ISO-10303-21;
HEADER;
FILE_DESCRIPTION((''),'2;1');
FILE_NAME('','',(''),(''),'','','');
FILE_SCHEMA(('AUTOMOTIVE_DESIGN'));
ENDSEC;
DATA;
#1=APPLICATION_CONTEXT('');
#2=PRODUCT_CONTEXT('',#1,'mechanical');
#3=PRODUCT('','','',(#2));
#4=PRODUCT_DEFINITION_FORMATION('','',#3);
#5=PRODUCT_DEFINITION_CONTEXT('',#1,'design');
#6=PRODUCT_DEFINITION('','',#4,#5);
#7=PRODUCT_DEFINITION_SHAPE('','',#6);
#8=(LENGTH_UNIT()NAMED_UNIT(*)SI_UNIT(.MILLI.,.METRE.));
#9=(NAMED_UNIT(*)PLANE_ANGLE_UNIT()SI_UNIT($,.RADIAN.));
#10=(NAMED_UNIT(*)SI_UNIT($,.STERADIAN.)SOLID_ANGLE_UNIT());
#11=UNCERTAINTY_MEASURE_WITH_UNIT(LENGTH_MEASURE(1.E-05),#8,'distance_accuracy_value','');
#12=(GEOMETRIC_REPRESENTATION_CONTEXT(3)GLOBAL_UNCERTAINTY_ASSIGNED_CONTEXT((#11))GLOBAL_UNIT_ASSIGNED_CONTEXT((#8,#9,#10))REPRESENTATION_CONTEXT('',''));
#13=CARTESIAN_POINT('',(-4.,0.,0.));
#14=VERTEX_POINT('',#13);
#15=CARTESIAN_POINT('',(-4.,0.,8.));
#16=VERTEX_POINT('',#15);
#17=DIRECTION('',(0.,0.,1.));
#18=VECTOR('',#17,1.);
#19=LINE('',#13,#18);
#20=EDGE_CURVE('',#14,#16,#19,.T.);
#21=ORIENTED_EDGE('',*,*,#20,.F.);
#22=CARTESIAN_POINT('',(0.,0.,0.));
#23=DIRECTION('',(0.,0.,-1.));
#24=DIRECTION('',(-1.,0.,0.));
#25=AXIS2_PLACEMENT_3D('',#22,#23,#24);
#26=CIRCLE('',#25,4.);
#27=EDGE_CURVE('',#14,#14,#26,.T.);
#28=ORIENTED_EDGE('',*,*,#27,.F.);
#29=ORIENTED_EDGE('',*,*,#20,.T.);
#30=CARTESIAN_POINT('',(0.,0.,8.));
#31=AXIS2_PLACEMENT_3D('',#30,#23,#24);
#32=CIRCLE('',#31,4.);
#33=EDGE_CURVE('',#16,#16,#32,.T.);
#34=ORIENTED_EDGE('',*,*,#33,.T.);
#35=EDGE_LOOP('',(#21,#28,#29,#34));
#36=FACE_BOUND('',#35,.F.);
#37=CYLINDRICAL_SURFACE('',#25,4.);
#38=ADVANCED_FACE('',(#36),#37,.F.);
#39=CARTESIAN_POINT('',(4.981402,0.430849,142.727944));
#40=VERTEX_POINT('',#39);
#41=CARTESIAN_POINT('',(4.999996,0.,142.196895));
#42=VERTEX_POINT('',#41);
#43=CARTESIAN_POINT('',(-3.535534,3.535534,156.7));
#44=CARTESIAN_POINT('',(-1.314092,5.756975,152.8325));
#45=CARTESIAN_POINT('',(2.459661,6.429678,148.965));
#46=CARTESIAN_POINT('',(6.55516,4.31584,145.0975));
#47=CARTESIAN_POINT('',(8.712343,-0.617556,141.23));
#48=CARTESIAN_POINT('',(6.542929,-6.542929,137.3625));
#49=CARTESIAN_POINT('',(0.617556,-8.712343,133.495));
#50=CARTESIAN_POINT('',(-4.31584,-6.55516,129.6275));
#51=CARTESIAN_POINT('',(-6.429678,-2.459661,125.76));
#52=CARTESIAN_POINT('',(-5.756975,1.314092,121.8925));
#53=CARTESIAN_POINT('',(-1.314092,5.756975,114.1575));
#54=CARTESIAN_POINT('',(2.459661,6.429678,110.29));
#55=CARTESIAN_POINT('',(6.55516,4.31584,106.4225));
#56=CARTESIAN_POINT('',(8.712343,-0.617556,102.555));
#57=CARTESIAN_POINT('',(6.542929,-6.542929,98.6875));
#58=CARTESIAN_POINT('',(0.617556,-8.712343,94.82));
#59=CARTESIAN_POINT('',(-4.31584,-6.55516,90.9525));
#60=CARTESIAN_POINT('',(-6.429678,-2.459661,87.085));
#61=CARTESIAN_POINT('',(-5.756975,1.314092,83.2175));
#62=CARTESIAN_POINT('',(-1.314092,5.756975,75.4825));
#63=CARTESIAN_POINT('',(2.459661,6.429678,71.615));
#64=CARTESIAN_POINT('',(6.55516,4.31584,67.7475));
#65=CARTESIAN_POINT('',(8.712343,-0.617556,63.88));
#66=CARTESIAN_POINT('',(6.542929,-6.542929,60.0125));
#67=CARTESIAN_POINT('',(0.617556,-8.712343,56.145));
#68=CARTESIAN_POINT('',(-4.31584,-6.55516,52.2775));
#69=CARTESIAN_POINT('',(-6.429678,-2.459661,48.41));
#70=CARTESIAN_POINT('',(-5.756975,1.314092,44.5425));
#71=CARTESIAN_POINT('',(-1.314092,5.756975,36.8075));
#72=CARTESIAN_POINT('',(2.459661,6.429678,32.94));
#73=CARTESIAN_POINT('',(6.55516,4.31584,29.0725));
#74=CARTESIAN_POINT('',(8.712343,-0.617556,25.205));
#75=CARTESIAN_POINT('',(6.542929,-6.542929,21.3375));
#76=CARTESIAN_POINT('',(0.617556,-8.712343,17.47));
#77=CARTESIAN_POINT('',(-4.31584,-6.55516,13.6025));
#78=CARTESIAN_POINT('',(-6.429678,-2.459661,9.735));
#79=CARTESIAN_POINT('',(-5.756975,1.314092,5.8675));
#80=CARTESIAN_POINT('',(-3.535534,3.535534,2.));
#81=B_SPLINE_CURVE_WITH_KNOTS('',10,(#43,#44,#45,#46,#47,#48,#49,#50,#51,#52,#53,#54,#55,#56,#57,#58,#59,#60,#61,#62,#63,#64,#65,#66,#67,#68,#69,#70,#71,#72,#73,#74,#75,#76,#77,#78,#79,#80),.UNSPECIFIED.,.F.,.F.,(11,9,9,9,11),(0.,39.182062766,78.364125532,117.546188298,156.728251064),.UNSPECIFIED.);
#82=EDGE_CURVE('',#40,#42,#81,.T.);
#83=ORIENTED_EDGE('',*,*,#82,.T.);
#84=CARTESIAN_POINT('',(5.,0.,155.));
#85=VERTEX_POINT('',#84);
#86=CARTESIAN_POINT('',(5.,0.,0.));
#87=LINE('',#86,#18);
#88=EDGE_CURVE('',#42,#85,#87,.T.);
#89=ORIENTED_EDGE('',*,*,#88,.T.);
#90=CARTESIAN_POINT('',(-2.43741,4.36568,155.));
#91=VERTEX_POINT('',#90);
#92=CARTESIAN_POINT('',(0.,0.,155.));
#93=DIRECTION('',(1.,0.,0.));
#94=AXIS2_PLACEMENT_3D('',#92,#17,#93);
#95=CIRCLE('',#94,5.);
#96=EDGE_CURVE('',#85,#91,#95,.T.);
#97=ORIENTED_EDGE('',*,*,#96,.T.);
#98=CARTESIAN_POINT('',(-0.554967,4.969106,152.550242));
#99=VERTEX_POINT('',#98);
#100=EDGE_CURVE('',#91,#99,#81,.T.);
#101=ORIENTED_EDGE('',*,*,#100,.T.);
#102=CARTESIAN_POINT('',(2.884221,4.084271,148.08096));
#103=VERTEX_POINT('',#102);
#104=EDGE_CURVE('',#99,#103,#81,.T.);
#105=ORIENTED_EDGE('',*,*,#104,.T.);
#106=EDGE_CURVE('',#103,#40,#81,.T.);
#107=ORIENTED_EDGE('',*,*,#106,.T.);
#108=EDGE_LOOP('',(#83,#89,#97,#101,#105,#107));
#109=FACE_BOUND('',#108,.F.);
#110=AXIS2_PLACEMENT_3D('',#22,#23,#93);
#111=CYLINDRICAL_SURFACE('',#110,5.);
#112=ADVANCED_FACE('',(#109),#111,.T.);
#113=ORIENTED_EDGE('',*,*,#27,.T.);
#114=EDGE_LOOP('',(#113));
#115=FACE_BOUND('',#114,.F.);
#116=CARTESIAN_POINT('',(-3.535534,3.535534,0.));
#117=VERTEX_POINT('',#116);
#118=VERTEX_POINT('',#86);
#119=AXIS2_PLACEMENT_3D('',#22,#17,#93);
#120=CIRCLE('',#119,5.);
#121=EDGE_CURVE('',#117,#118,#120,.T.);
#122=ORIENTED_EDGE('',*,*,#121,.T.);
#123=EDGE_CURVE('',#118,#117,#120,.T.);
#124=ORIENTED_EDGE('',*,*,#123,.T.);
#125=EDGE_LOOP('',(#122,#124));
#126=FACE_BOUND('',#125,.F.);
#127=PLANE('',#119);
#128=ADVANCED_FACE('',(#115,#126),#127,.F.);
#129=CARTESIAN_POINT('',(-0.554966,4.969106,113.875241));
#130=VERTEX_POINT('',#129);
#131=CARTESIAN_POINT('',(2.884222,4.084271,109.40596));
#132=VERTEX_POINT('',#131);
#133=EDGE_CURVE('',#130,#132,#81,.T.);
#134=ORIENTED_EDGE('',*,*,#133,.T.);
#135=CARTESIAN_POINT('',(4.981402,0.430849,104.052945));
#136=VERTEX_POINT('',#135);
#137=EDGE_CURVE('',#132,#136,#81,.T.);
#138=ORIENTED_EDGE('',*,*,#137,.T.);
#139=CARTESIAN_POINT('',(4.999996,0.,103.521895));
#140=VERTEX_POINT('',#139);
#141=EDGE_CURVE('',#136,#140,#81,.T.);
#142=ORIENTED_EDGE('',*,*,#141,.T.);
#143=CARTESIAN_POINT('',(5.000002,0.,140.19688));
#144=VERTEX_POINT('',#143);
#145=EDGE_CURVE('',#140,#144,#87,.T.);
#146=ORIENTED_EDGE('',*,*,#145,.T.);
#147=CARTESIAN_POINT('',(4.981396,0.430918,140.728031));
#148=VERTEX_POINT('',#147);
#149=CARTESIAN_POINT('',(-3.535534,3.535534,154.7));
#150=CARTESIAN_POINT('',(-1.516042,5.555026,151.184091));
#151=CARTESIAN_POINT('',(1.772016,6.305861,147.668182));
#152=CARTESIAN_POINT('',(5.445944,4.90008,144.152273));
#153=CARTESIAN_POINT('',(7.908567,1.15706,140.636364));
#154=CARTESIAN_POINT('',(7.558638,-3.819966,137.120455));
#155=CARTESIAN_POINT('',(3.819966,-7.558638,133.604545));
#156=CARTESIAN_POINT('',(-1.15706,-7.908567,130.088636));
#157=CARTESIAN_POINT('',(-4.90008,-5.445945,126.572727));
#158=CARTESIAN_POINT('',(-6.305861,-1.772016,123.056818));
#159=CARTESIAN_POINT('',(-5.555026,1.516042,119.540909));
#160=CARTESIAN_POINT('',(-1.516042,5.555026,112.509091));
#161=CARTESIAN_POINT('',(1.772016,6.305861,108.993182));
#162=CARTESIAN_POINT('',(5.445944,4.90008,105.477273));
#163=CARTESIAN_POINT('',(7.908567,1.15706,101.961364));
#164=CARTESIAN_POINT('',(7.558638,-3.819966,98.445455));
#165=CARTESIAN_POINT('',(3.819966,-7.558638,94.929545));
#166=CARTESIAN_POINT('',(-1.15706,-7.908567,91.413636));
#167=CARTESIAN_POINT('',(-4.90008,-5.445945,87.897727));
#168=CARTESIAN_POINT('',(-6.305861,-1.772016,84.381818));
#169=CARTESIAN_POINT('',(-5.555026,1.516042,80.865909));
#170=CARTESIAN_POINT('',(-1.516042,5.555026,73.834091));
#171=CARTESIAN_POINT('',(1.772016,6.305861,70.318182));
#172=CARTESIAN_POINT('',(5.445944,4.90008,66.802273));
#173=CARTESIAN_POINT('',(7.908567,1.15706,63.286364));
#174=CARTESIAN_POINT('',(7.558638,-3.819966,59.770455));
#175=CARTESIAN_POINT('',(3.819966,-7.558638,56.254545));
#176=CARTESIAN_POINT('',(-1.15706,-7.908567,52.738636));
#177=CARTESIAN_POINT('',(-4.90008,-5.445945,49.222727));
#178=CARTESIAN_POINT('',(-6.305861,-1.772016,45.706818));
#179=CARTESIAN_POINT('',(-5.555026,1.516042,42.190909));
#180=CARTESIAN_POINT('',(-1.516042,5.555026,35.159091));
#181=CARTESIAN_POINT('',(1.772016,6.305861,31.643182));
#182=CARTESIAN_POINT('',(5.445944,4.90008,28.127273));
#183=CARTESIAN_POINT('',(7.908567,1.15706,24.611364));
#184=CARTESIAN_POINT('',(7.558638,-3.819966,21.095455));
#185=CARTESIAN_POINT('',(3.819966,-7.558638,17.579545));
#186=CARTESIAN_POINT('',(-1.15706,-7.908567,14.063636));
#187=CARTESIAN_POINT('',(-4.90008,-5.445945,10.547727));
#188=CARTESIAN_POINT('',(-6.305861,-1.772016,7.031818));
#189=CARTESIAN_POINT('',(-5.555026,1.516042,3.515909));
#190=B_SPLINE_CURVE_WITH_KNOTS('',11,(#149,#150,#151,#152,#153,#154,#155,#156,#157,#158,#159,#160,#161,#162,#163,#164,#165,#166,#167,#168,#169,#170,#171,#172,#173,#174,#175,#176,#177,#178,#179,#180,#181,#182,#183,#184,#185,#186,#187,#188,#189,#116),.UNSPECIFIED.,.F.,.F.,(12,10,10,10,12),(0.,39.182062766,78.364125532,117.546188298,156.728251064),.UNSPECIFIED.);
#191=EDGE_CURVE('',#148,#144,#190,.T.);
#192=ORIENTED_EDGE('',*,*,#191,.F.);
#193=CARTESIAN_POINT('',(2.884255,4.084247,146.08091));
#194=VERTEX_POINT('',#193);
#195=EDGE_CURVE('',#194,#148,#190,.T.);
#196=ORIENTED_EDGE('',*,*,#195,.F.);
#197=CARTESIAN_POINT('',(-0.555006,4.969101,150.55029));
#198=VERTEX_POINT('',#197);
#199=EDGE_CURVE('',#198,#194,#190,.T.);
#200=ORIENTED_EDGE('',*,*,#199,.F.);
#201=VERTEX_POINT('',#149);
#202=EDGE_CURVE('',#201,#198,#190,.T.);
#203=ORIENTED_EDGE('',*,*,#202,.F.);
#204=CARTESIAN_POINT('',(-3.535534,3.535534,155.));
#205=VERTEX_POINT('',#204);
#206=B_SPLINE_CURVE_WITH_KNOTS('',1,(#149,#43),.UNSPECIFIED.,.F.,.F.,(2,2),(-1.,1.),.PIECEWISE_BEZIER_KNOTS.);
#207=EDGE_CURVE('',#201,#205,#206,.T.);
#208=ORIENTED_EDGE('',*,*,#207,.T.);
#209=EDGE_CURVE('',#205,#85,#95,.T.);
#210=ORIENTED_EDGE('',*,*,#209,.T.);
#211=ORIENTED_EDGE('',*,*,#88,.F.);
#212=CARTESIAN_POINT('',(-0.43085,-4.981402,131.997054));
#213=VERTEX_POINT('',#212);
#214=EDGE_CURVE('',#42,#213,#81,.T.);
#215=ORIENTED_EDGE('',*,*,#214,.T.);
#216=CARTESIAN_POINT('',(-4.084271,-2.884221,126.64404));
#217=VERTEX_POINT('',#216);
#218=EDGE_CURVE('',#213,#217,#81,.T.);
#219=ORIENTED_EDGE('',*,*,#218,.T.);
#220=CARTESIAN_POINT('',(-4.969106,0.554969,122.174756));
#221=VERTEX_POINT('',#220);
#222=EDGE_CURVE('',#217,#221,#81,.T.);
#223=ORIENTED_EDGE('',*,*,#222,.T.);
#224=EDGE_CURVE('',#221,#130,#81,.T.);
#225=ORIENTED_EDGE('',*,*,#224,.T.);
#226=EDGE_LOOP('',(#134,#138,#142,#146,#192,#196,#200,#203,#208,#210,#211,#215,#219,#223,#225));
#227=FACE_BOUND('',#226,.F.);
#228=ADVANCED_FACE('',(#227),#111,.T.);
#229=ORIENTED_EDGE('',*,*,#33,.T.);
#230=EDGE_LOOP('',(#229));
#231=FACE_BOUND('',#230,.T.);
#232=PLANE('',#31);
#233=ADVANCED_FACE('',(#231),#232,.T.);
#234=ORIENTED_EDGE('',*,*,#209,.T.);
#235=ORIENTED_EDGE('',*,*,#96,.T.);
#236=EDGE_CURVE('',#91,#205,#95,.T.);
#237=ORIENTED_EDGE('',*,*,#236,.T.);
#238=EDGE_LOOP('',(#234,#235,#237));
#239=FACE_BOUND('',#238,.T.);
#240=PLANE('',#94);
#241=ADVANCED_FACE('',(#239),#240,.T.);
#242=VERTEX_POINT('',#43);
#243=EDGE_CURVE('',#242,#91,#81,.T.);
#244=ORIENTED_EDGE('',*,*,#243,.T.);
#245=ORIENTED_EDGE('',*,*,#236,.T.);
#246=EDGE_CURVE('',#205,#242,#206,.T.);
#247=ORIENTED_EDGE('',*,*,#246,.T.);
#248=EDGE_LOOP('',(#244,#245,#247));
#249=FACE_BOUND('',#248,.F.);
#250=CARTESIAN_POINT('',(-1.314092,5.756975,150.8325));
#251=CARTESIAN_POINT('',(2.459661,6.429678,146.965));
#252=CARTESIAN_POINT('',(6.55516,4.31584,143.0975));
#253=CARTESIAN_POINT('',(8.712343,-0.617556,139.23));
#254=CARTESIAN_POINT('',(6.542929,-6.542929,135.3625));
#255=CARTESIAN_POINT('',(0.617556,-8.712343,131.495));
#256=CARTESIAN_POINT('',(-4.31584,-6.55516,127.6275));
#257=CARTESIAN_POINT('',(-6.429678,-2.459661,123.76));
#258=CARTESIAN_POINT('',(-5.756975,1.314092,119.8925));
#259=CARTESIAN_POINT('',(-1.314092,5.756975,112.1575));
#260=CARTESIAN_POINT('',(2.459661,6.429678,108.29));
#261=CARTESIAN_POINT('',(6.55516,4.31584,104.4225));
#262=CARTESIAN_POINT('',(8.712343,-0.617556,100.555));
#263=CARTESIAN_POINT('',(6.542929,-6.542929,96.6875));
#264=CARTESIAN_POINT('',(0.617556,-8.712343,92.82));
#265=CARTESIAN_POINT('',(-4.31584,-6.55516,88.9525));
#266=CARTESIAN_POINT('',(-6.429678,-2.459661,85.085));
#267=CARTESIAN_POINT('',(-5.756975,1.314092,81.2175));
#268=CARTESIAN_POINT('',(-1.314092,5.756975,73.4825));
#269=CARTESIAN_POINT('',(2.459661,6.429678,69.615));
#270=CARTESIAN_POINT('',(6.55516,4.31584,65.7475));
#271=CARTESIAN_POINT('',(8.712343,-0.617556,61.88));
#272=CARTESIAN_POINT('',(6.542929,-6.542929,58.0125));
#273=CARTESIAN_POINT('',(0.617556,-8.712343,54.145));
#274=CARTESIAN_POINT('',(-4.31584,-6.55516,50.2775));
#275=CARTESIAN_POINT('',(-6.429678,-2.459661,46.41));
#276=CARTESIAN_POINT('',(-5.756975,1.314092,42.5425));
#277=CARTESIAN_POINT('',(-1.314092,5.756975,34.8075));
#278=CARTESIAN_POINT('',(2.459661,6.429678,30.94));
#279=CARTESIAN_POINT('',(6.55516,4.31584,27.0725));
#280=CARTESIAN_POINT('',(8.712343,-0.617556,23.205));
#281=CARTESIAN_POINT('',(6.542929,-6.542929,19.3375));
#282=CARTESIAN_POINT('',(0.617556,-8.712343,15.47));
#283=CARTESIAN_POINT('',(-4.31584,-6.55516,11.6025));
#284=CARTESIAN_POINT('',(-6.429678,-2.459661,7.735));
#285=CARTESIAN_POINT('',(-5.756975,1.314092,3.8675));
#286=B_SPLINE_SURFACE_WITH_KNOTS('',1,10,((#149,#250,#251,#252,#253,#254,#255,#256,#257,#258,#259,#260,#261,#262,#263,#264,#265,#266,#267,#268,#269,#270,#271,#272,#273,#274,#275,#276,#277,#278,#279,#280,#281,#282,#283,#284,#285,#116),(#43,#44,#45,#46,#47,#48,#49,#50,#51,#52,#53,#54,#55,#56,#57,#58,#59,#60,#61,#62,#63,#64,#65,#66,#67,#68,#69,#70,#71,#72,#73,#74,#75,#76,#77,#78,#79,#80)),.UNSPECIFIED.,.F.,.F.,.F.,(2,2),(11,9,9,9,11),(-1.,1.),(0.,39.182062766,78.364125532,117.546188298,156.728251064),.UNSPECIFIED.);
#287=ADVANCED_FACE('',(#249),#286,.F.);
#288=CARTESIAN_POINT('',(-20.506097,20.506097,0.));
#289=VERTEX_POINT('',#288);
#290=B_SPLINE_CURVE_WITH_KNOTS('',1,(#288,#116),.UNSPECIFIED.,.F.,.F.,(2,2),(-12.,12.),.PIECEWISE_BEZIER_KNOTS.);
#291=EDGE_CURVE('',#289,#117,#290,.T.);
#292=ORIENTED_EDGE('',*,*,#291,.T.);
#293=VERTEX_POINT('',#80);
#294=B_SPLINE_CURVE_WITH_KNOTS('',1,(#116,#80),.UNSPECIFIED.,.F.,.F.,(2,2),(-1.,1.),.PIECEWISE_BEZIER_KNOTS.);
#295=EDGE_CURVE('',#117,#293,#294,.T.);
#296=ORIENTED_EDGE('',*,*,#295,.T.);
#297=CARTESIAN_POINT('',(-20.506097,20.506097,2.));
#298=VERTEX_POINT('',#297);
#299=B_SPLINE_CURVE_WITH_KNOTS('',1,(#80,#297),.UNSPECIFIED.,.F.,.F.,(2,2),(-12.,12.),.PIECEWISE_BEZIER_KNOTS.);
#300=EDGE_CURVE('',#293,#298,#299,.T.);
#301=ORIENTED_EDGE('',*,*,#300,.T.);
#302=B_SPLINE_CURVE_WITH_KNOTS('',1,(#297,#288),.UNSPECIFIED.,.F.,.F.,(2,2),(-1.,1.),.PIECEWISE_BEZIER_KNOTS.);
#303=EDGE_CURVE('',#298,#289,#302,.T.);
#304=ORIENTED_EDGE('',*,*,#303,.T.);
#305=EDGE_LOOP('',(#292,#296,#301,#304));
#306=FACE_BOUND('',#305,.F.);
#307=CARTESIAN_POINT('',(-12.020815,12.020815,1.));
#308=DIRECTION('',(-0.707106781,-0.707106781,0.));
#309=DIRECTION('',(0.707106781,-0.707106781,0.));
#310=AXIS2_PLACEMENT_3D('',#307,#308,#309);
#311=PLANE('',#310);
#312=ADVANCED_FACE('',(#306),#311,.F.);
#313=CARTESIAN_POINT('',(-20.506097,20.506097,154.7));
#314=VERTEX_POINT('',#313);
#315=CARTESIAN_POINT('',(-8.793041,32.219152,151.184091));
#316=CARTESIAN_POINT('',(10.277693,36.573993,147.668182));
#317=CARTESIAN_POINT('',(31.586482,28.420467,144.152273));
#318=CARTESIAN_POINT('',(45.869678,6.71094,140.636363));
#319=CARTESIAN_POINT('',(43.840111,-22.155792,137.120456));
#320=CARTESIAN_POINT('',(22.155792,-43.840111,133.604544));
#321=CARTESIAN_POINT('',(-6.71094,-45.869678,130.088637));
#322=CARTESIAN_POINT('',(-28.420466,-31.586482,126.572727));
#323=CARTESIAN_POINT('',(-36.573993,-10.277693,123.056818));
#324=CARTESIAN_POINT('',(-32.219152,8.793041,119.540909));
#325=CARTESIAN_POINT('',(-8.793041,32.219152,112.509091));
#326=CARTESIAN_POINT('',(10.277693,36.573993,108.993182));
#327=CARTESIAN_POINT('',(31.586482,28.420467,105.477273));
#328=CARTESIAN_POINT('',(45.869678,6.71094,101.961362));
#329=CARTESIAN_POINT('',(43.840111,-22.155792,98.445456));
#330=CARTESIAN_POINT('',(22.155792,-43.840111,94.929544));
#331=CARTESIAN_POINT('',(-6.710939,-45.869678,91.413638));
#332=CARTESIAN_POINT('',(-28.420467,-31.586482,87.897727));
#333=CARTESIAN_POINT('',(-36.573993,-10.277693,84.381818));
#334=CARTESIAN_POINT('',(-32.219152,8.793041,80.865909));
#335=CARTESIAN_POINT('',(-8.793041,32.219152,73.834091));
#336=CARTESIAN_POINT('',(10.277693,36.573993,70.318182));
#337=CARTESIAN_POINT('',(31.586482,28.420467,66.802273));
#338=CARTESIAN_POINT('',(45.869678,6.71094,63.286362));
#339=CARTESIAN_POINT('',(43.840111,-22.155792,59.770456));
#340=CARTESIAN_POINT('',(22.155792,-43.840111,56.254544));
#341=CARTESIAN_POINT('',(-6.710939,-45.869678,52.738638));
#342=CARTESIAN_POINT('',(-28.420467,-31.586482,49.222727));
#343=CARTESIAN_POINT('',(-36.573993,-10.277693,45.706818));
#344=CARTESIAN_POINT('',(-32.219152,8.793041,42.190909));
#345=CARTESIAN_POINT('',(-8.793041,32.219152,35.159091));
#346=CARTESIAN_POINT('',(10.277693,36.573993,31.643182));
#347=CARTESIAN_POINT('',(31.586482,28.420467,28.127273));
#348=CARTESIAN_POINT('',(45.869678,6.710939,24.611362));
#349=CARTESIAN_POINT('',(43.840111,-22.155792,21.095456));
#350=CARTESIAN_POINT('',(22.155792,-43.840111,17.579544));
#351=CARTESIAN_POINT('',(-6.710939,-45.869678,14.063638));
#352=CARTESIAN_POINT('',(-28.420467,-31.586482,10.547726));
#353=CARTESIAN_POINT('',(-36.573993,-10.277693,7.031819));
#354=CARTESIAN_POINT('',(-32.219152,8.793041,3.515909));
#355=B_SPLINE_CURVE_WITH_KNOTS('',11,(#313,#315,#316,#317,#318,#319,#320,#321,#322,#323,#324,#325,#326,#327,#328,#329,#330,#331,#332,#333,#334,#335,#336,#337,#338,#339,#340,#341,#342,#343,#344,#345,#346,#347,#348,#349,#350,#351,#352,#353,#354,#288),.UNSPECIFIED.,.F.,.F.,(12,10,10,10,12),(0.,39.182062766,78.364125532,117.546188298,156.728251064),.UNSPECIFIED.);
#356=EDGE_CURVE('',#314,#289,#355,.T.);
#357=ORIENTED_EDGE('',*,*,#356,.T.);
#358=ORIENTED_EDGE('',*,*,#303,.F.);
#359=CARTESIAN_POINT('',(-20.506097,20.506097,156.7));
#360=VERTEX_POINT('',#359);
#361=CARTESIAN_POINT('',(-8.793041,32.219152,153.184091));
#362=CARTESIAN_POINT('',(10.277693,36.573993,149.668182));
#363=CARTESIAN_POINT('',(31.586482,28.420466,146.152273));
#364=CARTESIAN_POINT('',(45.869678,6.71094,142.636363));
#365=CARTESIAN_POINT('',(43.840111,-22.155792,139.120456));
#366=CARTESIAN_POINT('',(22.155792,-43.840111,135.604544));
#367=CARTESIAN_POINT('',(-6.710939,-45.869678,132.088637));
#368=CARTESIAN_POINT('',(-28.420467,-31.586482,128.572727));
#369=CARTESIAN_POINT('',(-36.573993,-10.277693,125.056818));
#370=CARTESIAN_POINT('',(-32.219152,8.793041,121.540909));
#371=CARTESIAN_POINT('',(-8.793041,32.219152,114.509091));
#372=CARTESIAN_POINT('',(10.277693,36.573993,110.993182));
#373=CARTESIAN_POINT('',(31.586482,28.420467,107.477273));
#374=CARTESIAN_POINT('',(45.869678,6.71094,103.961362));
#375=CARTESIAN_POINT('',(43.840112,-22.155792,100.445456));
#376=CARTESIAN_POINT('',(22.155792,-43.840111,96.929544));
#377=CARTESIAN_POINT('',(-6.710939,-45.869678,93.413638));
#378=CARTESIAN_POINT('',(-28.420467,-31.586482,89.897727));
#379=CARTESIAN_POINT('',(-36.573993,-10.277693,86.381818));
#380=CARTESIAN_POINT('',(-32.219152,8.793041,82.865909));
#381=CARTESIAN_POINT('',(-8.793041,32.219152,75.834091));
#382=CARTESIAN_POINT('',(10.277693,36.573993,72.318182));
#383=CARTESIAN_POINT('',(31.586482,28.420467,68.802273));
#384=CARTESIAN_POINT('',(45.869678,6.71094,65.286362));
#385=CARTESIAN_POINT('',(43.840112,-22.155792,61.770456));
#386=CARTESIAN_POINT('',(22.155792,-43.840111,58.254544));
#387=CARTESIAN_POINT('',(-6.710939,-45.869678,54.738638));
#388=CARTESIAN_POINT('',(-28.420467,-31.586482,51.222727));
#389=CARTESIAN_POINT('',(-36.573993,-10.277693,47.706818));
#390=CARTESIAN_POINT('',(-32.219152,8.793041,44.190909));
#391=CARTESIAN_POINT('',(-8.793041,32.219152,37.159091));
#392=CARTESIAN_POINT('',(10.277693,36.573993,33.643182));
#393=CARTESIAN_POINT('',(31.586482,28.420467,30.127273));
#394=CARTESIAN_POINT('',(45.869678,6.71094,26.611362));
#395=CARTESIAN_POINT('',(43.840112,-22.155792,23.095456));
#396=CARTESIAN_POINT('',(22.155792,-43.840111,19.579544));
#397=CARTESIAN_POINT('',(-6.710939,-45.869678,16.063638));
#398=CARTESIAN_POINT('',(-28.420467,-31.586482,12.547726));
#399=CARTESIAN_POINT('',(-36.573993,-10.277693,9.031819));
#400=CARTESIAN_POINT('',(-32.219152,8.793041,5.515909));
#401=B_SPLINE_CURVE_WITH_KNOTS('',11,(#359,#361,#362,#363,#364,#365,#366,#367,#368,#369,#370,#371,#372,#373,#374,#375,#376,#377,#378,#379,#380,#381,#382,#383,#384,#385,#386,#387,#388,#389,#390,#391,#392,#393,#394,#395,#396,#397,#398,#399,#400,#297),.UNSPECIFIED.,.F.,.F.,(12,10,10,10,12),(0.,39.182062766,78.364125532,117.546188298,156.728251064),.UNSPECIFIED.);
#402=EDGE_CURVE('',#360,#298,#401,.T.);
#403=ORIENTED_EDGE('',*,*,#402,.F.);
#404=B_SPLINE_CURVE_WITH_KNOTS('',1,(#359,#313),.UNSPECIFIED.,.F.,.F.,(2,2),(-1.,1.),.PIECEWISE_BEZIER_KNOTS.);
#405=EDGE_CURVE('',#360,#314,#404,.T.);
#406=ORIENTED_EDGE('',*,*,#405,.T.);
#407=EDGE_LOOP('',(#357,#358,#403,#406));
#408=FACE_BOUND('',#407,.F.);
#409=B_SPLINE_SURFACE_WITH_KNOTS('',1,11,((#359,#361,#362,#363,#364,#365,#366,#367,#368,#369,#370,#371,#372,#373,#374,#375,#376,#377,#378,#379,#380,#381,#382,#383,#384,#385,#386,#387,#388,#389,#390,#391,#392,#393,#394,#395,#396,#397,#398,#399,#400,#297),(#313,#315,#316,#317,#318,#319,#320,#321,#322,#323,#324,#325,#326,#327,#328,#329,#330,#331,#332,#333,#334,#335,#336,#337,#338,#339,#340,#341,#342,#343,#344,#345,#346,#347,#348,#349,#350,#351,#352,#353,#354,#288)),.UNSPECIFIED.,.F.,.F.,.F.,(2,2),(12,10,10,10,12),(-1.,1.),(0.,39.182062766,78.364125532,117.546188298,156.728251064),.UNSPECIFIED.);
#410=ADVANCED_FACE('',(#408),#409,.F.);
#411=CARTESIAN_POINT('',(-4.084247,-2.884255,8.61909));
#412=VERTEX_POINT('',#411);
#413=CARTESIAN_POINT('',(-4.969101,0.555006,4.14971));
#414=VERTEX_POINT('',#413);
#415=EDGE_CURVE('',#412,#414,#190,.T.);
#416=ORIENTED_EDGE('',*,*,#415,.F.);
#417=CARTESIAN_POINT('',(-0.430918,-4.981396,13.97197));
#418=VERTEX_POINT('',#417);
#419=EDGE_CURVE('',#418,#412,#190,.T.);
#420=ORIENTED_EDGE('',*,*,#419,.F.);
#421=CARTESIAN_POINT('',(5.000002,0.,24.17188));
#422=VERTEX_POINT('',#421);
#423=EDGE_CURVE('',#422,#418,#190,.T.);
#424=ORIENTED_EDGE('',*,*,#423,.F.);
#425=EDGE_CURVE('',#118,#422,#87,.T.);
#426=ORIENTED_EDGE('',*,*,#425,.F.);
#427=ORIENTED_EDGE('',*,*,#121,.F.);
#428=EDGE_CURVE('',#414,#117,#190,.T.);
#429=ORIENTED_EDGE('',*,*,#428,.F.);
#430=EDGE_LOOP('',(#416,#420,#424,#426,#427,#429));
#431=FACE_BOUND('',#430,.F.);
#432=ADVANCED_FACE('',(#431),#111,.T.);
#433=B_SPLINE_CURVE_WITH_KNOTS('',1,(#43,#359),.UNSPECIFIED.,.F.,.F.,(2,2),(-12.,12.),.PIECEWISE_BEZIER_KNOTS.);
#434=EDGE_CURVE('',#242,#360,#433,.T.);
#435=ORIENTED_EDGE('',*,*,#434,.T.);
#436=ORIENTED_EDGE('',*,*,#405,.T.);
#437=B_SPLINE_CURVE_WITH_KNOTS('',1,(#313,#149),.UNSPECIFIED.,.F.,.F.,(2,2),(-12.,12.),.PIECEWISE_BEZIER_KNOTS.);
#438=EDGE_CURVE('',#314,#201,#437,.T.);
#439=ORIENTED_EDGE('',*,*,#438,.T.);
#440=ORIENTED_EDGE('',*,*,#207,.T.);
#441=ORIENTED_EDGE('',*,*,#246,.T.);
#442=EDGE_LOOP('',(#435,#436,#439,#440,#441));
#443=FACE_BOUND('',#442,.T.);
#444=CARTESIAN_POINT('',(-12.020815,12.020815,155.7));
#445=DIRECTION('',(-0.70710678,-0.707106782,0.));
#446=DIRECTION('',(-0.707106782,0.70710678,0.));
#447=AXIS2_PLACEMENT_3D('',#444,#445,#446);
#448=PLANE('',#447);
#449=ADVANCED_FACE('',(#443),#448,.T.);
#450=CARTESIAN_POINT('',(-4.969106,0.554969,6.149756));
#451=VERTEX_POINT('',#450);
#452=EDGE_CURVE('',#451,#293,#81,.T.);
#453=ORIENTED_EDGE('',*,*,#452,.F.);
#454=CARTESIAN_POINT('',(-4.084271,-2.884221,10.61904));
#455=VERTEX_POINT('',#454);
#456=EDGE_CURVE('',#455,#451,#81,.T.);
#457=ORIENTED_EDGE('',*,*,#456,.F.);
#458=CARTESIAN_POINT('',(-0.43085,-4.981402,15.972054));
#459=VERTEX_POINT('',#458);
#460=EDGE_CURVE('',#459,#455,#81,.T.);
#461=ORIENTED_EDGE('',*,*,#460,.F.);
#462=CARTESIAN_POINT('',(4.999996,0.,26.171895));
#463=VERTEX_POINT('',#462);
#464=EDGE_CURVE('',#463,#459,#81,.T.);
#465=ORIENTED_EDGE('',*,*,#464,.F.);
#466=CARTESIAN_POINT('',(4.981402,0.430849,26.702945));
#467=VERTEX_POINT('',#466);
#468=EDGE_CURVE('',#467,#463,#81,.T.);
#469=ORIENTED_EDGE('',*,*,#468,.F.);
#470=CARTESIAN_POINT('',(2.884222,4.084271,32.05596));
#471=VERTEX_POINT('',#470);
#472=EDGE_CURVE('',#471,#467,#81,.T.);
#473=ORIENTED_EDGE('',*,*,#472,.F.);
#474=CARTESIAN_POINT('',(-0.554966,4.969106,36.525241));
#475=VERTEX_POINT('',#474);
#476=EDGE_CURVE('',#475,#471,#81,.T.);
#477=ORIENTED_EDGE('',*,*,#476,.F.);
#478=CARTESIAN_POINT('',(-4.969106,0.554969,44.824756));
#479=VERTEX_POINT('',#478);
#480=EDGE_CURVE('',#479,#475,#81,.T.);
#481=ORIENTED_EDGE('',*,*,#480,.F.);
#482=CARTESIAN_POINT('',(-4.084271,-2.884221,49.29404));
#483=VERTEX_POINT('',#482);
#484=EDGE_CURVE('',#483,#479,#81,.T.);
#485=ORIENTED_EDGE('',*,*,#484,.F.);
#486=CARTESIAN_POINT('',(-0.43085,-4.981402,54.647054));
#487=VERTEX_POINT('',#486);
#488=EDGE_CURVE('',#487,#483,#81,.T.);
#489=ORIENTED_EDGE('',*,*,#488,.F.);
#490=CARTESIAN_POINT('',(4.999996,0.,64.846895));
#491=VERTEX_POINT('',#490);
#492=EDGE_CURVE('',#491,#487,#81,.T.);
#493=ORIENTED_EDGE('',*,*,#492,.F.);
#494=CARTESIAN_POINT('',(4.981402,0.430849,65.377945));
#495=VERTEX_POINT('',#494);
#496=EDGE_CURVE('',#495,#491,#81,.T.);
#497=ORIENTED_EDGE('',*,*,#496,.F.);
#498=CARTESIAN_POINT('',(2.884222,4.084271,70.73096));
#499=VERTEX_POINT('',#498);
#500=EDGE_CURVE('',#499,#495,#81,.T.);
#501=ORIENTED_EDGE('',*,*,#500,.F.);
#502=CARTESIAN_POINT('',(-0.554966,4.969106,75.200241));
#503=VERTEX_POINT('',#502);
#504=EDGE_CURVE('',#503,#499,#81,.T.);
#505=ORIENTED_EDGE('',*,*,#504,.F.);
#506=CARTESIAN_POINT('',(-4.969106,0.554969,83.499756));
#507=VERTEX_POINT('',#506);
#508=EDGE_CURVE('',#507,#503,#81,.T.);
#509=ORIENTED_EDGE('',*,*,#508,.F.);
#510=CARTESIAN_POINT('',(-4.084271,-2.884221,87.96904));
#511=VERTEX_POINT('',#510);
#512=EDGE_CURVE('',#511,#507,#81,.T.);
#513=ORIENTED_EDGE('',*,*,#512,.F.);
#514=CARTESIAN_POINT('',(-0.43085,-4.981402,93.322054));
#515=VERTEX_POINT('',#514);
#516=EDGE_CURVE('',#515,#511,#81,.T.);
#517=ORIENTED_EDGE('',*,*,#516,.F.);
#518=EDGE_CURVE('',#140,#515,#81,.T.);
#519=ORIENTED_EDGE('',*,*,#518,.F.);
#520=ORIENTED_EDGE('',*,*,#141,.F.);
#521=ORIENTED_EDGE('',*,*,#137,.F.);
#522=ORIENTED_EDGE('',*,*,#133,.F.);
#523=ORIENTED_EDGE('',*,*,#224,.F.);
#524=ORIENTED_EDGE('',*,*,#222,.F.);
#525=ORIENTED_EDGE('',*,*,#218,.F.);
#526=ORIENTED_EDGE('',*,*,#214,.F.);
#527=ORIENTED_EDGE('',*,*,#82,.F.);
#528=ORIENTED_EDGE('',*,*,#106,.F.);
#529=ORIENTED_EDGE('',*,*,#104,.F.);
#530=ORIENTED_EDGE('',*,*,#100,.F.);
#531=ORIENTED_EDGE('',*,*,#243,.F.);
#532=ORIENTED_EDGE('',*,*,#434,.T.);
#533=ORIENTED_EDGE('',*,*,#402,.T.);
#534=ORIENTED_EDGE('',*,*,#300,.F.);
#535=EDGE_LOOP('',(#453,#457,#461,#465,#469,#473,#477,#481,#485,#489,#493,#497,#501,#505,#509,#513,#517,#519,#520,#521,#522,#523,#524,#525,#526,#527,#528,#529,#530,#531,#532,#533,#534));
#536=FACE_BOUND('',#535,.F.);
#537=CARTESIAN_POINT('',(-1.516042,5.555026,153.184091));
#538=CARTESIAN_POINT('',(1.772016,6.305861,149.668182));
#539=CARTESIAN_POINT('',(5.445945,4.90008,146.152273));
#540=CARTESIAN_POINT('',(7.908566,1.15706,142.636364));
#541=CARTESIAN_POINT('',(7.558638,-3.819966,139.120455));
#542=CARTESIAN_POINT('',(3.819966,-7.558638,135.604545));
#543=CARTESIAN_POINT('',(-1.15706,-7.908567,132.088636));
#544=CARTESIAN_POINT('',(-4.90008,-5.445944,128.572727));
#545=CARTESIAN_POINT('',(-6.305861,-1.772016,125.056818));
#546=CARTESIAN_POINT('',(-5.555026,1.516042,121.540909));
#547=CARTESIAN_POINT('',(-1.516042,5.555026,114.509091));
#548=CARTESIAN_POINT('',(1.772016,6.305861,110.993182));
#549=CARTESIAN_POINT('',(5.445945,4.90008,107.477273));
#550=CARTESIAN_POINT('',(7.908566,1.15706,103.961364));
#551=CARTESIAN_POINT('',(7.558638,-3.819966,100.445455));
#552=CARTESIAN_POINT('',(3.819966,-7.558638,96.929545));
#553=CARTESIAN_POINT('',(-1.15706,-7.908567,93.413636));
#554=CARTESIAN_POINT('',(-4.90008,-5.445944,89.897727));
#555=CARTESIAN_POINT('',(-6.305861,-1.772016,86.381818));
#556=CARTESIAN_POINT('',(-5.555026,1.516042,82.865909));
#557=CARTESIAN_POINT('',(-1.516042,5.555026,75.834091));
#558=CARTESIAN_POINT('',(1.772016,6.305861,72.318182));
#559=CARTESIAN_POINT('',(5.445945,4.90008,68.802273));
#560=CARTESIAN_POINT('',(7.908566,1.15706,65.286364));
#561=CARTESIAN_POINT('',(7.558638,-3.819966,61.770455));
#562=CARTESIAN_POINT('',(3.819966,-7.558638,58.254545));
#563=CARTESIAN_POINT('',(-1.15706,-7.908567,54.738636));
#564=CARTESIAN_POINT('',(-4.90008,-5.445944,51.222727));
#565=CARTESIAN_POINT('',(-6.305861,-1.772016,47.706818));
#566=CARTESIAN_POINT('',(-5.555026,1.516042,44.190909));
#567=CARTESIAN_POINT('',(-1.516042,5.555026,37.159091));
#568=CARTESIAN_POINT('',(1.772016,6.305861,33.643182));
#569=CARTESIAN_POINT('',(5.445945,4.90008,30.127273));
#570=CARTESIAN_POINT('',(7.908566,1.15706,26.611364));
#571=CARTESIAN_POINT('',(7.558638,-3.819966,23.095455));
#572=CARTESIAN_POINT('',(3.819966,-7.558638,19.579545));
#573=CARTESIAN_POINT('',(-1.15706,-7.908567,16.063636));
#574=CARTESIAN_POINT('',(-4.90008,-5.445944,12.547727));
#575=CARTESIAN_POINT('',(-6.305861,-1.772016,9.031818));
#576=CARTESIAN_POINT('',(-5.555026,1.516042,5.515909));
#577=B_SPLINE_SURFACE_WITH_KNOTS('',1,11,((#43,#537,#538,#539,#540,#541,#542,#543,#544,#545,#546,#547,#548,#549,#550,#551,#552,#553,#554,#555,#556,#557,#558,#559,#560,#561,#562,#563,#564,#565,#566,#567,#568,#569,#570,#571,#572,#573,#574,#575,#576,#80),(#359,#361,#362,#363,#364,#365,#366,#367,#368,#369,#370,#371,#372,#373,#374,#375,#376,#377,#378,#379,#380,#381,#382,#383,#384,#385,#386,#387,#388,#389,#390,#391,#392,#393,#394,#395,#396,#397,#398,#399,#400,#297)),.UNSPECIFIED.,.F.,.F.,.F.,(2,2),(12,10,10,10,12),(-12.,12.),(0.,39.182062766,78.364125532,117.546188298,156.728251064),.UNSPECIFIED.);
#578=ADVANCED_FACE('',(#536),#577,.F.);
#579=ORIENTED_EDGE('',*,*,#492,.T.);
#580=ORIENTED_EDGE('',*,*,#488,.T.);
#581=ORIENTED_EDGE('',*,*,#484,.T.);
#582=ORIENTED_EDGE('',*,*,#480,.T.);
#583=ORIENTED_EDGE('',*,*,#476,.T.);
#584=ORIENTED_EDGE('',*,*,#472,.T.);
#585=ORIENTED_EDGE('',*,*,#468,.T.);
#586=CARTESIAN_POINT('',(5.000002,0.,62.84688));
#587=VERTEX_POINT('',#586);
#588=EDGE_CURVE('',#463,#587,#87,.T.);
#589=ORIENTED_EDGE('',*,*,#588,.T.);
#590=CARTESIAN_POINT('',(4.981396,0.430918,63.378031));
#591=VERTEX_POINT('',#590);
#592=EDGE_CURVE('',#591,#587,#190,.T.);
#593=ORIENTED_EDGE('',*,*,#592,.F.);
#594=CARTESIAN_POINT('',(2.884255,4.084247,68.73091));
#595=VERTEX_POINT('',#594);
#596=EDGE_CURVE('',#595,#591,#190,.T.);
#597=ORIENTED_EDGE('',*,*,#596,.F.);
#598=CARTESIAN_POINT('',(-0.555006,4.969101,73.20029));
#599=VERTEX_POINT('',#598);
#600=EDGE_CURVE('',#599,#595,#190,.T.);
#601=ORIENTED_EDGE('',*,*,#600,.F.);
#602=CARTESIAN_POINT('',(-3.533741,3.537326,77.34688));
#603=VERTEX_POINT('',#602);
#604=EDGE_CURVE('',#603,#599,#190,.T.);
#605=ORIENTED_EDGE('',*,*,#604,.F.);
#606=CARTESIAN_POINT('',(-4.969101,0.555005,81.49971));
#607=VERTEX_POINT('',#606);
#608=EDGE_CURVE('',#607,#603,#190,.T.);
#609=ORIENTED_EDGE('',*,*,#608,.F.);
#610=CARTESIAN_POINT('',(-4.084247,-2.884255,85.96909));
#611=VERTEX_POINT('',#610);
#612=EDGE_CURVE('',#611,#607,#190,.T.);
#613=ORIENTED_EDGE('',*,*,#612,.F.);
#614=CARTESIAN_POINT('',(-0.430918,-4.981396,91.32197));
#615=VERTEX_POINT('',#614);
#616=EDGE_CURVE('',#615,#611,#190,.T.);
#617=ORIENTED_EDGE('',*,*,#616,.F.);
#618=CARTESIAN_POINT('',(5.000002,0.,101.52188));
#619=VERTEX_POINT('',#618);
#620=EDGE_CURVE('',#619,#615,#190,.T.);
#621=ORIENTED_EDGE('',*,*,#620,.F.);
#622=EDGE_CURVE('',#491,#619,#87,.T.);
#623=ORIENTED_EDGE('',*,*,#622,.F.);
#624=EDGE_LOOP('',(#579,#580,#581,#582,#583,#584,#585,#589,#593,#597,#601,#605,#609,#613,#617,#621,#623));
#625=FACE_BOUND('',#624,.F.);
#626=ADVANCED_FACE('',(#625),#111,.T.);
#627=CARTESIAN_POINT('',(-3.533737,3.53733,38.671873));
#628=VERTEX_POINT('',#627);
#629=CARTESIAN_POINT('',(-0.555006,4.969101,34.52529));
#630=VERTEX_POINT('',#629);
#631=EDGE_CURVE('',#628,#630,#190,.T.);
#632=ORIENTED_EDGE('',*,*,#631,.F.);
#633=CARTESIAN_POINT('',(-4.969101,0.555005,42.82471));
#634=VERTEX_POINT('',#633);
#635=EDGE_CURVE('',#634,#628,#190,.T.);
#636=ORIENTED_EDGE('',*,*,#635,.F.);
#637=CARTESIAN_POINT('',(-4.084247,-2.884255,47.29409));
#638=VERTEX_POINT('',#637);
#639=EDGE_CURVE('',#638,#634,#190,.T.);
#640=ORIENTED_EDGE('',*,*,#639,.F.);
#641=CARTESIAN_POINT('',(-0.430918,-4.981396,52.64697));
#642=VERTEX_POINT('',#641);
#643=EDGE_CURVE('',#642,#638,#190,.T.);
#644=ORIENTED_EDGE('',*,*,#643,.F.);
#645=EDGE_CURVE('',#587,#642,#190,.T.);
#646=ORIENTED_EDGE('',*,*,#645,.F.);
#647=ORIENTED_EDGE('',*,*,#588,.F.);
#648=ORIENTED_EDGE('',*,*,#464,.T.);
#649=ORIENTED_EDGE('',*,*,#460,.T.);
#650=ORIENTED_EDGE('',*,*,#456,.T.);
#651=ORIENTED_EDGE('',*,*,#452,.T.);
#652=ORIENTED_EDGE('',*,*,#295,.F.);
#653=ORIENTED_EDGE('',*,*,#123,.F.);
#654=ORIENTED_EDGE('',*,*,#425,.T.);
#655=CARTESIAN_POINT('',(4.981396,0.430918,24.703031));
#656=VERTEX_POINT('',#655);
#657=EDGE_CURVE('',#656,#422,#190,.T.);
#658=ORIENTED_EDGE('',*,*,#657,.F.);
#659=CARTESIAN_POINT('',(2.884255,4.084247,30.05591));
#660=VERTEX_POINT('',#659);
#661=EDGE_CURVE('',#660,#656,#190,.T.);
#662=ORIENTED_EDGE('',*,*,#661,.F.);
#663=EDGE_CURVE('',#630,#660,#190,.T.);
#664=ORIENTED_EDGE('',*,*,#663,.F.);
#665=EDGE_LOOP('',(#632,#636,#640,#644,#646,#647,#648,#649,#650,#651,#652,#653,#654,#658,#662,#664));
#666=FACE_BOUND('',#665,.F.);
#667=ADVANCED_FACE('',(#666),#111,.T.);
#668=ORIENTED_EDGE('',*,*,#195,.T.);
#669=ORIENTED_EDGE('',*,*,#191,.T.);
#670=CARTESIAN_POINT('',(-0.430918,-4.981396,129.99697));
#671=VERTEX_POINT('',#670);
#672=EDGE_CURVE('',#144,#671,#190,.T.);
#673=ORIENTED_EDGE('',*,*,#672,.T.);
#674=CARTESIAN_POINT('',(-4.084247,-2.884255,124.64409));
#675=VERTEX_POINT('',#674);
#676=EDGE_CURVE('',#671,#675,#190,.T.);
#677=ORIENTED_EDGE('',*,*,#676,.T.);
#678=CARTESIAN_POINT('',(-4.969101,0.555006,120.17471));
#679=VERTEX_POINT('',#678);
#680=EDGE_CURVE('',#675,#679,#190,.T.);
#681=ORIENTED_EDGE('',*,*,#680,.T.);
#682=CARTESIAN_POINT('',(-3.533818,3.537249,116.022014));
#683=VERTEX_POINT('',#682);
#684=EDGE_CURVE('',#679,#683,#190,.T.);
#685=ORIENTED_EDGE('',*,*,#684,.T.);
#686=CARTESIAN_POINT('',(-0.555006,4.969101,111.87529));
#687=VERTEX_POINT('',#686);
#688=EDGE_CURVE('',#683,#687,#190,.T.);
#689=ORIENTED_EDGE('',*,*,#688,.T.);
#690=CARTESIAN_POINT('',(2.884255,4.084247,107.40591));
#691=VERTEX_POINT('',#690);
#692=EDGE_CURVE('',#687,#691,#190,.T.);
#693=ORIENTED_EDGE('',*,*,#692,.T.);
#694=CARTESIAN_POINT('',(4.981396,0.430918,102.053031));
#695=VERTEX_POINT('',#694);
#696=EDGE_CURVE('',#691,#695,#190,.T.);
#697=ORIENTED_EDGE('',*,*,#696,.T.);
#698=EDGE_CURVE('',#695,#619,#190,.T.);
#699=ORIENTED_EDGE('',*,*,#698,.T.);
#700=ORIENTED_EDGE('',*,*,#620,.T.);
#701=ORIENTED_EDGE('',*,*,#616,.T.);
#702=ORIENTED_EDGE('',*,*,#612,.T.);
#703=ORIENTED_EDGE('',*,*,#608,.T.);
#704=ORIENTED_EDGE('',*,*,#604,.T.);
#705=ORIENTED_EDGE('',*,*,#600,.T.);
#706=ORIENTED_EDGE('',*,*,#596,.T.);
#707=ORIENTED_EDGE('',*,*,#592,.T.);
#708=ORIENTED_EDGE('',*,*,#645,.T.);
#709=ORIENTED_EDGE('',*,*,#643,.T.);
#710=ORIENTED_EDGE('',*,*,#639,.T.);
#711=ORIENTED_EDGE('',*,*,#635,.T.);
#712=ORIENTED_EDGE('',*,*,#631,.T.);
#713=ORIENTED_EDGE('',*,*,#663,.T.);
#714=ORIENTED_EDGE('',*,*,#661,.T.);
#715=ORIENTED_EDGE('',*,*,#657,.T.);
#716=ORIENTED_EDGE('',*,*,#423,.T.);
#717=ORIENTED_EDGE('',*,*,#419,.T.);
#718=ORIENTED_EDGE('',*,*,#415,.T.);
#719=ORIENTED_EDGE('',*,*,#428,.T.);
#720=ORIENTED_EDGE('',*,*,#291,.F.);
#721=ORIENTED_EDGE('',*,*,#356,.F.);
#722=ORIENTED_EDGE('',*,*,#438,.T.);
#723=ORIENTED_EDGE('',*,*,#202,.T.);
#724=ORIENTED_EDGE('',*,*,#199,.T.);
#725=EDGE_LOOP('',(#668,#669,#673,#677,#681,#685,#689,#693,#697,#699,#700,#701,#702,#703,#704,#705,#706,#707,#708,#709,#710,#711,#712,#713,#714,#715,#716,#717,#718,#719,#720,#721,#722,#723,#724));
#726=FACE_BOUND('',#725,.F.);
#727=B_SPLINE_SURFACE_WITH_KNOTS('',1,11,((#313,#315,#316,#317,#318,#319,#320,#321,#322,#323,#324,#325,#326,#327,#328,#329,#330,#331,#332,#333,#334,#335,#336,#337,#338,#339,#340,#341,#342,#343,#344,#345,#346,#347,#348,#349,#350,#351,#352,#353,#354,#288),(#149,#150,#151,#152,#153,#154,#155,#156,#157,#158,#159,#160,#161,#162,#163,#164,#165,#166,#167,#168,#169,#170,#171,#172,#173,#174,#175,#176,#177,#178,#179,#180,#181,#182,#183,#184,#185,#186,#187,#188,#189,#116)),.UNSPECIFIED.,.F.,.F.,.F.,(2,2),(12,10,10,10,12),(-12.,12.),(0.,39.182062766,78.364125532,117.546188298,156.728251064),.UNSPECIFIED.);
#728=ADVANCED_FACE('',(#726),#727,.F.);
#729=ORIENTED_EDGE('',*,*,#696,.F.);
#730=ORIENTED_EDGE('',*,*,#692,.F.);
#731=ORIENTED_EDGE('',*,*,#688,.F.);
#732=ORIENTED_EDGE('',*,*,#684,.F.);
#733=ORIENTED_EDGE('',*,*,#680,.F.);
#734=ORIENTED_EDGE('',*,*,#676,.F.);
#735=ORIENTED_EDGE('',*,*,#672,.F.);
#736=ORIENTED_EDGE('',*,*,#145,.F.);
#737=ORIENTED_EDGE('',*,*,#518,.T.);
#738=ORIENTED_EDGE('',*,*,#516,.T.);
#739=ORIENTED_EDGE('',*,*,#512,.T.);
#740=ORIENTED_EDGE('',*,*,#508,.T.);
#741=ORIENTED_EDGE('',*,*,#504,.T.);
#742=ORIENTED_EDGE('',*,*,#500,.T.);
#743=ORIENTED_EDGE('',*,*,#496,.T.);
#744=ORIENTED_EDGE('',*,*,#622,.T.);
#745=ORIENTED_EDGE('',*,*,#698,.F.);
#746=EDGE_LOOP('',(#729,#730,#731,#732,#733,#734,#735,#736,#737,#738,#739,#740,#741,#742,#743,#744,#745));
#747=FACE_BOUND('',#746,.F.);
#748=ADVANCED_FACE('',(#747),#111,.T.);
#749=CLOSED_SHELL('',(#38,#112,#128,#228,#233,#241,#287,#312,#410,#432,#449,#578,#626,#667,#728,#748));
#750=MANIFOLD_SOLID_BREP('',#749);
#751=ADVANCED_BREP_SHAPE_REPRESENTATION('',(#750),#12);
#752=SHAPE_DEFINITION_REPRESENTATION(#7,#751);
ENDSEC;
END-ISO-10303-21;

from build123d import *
from build123d.topology import SkipClean

# Parameters (mm, degrees)
SKETCH_1_R          = 5
EXTRUDE_1_DEPTH     = 155
SWEEP_1_PITCH       = 38.675
SWEEP_1_HEIGHT      = 154.7
SWEEP_1_RADIUS      = 5
SWEEP_1_START_ANGLE = 45
SKETCH_4_W          = 2
SKETCH_4_H          = 24
SKETCH_5_R          = 4
CUT_EXTRUDE_1_DEPTH = 8


with BuildPart() as part:
    # 草图1 → 凸台-拉伸1 (new body)
    with BuildSketch(Plane.XY):
        Circle(SKETCH_1_R)
    extrude(amount=EXTRUDE_1_DEPTH)

    # 扫描1: sweep along a helix
    with SkipClean():  # the faces are left unmerged after this step: merging them gives an invalid solid
        with BuildLine() as sweep_1_path:
            add(Helix(SWEEP_1_PITCH, SWEEP_1_HEIGHT, SWEEP_1_RADIUS, center=(0, 0, 155), direction=(0, 0, -1), mode=Mode.PRIVATE).rotate(Axis((0, 0, 155), (0, 0, -1)), SWEEP_1_START_ANGLE))
        # 草图4 → 扫描1 (sweep)
        with BuildSketch(Plane(origin=(-3.535533906, 3.535533906, 0.3), x_dir=(0, 0, 1), z_dir=(-0.7071067811866223, -0.7071067811864729, 0))):
            with Locations((0.7, 12)):
                Rectangle(SKETCH_4_W, SKETCH_4_H)
        sweep(path=sweep_1_path.line, is_frenet=True)

    # 草图5 → 切除-拉伸1 (cut)
    with SkipClean():  # the faces are left unmerged after this step: merging them gives an invalid solid
        with BuildSketch(Plane(origin=(0, 0, 0), x_dir=(-1, 0, 0), z_dir=(0, 0, -1))):
            Circle(SKETCH_5_R)
        extrude(amount=-CUT_EXTRUDE_1_DEPTH, mode=Mode.SUBTRACT)


solid = part.part
